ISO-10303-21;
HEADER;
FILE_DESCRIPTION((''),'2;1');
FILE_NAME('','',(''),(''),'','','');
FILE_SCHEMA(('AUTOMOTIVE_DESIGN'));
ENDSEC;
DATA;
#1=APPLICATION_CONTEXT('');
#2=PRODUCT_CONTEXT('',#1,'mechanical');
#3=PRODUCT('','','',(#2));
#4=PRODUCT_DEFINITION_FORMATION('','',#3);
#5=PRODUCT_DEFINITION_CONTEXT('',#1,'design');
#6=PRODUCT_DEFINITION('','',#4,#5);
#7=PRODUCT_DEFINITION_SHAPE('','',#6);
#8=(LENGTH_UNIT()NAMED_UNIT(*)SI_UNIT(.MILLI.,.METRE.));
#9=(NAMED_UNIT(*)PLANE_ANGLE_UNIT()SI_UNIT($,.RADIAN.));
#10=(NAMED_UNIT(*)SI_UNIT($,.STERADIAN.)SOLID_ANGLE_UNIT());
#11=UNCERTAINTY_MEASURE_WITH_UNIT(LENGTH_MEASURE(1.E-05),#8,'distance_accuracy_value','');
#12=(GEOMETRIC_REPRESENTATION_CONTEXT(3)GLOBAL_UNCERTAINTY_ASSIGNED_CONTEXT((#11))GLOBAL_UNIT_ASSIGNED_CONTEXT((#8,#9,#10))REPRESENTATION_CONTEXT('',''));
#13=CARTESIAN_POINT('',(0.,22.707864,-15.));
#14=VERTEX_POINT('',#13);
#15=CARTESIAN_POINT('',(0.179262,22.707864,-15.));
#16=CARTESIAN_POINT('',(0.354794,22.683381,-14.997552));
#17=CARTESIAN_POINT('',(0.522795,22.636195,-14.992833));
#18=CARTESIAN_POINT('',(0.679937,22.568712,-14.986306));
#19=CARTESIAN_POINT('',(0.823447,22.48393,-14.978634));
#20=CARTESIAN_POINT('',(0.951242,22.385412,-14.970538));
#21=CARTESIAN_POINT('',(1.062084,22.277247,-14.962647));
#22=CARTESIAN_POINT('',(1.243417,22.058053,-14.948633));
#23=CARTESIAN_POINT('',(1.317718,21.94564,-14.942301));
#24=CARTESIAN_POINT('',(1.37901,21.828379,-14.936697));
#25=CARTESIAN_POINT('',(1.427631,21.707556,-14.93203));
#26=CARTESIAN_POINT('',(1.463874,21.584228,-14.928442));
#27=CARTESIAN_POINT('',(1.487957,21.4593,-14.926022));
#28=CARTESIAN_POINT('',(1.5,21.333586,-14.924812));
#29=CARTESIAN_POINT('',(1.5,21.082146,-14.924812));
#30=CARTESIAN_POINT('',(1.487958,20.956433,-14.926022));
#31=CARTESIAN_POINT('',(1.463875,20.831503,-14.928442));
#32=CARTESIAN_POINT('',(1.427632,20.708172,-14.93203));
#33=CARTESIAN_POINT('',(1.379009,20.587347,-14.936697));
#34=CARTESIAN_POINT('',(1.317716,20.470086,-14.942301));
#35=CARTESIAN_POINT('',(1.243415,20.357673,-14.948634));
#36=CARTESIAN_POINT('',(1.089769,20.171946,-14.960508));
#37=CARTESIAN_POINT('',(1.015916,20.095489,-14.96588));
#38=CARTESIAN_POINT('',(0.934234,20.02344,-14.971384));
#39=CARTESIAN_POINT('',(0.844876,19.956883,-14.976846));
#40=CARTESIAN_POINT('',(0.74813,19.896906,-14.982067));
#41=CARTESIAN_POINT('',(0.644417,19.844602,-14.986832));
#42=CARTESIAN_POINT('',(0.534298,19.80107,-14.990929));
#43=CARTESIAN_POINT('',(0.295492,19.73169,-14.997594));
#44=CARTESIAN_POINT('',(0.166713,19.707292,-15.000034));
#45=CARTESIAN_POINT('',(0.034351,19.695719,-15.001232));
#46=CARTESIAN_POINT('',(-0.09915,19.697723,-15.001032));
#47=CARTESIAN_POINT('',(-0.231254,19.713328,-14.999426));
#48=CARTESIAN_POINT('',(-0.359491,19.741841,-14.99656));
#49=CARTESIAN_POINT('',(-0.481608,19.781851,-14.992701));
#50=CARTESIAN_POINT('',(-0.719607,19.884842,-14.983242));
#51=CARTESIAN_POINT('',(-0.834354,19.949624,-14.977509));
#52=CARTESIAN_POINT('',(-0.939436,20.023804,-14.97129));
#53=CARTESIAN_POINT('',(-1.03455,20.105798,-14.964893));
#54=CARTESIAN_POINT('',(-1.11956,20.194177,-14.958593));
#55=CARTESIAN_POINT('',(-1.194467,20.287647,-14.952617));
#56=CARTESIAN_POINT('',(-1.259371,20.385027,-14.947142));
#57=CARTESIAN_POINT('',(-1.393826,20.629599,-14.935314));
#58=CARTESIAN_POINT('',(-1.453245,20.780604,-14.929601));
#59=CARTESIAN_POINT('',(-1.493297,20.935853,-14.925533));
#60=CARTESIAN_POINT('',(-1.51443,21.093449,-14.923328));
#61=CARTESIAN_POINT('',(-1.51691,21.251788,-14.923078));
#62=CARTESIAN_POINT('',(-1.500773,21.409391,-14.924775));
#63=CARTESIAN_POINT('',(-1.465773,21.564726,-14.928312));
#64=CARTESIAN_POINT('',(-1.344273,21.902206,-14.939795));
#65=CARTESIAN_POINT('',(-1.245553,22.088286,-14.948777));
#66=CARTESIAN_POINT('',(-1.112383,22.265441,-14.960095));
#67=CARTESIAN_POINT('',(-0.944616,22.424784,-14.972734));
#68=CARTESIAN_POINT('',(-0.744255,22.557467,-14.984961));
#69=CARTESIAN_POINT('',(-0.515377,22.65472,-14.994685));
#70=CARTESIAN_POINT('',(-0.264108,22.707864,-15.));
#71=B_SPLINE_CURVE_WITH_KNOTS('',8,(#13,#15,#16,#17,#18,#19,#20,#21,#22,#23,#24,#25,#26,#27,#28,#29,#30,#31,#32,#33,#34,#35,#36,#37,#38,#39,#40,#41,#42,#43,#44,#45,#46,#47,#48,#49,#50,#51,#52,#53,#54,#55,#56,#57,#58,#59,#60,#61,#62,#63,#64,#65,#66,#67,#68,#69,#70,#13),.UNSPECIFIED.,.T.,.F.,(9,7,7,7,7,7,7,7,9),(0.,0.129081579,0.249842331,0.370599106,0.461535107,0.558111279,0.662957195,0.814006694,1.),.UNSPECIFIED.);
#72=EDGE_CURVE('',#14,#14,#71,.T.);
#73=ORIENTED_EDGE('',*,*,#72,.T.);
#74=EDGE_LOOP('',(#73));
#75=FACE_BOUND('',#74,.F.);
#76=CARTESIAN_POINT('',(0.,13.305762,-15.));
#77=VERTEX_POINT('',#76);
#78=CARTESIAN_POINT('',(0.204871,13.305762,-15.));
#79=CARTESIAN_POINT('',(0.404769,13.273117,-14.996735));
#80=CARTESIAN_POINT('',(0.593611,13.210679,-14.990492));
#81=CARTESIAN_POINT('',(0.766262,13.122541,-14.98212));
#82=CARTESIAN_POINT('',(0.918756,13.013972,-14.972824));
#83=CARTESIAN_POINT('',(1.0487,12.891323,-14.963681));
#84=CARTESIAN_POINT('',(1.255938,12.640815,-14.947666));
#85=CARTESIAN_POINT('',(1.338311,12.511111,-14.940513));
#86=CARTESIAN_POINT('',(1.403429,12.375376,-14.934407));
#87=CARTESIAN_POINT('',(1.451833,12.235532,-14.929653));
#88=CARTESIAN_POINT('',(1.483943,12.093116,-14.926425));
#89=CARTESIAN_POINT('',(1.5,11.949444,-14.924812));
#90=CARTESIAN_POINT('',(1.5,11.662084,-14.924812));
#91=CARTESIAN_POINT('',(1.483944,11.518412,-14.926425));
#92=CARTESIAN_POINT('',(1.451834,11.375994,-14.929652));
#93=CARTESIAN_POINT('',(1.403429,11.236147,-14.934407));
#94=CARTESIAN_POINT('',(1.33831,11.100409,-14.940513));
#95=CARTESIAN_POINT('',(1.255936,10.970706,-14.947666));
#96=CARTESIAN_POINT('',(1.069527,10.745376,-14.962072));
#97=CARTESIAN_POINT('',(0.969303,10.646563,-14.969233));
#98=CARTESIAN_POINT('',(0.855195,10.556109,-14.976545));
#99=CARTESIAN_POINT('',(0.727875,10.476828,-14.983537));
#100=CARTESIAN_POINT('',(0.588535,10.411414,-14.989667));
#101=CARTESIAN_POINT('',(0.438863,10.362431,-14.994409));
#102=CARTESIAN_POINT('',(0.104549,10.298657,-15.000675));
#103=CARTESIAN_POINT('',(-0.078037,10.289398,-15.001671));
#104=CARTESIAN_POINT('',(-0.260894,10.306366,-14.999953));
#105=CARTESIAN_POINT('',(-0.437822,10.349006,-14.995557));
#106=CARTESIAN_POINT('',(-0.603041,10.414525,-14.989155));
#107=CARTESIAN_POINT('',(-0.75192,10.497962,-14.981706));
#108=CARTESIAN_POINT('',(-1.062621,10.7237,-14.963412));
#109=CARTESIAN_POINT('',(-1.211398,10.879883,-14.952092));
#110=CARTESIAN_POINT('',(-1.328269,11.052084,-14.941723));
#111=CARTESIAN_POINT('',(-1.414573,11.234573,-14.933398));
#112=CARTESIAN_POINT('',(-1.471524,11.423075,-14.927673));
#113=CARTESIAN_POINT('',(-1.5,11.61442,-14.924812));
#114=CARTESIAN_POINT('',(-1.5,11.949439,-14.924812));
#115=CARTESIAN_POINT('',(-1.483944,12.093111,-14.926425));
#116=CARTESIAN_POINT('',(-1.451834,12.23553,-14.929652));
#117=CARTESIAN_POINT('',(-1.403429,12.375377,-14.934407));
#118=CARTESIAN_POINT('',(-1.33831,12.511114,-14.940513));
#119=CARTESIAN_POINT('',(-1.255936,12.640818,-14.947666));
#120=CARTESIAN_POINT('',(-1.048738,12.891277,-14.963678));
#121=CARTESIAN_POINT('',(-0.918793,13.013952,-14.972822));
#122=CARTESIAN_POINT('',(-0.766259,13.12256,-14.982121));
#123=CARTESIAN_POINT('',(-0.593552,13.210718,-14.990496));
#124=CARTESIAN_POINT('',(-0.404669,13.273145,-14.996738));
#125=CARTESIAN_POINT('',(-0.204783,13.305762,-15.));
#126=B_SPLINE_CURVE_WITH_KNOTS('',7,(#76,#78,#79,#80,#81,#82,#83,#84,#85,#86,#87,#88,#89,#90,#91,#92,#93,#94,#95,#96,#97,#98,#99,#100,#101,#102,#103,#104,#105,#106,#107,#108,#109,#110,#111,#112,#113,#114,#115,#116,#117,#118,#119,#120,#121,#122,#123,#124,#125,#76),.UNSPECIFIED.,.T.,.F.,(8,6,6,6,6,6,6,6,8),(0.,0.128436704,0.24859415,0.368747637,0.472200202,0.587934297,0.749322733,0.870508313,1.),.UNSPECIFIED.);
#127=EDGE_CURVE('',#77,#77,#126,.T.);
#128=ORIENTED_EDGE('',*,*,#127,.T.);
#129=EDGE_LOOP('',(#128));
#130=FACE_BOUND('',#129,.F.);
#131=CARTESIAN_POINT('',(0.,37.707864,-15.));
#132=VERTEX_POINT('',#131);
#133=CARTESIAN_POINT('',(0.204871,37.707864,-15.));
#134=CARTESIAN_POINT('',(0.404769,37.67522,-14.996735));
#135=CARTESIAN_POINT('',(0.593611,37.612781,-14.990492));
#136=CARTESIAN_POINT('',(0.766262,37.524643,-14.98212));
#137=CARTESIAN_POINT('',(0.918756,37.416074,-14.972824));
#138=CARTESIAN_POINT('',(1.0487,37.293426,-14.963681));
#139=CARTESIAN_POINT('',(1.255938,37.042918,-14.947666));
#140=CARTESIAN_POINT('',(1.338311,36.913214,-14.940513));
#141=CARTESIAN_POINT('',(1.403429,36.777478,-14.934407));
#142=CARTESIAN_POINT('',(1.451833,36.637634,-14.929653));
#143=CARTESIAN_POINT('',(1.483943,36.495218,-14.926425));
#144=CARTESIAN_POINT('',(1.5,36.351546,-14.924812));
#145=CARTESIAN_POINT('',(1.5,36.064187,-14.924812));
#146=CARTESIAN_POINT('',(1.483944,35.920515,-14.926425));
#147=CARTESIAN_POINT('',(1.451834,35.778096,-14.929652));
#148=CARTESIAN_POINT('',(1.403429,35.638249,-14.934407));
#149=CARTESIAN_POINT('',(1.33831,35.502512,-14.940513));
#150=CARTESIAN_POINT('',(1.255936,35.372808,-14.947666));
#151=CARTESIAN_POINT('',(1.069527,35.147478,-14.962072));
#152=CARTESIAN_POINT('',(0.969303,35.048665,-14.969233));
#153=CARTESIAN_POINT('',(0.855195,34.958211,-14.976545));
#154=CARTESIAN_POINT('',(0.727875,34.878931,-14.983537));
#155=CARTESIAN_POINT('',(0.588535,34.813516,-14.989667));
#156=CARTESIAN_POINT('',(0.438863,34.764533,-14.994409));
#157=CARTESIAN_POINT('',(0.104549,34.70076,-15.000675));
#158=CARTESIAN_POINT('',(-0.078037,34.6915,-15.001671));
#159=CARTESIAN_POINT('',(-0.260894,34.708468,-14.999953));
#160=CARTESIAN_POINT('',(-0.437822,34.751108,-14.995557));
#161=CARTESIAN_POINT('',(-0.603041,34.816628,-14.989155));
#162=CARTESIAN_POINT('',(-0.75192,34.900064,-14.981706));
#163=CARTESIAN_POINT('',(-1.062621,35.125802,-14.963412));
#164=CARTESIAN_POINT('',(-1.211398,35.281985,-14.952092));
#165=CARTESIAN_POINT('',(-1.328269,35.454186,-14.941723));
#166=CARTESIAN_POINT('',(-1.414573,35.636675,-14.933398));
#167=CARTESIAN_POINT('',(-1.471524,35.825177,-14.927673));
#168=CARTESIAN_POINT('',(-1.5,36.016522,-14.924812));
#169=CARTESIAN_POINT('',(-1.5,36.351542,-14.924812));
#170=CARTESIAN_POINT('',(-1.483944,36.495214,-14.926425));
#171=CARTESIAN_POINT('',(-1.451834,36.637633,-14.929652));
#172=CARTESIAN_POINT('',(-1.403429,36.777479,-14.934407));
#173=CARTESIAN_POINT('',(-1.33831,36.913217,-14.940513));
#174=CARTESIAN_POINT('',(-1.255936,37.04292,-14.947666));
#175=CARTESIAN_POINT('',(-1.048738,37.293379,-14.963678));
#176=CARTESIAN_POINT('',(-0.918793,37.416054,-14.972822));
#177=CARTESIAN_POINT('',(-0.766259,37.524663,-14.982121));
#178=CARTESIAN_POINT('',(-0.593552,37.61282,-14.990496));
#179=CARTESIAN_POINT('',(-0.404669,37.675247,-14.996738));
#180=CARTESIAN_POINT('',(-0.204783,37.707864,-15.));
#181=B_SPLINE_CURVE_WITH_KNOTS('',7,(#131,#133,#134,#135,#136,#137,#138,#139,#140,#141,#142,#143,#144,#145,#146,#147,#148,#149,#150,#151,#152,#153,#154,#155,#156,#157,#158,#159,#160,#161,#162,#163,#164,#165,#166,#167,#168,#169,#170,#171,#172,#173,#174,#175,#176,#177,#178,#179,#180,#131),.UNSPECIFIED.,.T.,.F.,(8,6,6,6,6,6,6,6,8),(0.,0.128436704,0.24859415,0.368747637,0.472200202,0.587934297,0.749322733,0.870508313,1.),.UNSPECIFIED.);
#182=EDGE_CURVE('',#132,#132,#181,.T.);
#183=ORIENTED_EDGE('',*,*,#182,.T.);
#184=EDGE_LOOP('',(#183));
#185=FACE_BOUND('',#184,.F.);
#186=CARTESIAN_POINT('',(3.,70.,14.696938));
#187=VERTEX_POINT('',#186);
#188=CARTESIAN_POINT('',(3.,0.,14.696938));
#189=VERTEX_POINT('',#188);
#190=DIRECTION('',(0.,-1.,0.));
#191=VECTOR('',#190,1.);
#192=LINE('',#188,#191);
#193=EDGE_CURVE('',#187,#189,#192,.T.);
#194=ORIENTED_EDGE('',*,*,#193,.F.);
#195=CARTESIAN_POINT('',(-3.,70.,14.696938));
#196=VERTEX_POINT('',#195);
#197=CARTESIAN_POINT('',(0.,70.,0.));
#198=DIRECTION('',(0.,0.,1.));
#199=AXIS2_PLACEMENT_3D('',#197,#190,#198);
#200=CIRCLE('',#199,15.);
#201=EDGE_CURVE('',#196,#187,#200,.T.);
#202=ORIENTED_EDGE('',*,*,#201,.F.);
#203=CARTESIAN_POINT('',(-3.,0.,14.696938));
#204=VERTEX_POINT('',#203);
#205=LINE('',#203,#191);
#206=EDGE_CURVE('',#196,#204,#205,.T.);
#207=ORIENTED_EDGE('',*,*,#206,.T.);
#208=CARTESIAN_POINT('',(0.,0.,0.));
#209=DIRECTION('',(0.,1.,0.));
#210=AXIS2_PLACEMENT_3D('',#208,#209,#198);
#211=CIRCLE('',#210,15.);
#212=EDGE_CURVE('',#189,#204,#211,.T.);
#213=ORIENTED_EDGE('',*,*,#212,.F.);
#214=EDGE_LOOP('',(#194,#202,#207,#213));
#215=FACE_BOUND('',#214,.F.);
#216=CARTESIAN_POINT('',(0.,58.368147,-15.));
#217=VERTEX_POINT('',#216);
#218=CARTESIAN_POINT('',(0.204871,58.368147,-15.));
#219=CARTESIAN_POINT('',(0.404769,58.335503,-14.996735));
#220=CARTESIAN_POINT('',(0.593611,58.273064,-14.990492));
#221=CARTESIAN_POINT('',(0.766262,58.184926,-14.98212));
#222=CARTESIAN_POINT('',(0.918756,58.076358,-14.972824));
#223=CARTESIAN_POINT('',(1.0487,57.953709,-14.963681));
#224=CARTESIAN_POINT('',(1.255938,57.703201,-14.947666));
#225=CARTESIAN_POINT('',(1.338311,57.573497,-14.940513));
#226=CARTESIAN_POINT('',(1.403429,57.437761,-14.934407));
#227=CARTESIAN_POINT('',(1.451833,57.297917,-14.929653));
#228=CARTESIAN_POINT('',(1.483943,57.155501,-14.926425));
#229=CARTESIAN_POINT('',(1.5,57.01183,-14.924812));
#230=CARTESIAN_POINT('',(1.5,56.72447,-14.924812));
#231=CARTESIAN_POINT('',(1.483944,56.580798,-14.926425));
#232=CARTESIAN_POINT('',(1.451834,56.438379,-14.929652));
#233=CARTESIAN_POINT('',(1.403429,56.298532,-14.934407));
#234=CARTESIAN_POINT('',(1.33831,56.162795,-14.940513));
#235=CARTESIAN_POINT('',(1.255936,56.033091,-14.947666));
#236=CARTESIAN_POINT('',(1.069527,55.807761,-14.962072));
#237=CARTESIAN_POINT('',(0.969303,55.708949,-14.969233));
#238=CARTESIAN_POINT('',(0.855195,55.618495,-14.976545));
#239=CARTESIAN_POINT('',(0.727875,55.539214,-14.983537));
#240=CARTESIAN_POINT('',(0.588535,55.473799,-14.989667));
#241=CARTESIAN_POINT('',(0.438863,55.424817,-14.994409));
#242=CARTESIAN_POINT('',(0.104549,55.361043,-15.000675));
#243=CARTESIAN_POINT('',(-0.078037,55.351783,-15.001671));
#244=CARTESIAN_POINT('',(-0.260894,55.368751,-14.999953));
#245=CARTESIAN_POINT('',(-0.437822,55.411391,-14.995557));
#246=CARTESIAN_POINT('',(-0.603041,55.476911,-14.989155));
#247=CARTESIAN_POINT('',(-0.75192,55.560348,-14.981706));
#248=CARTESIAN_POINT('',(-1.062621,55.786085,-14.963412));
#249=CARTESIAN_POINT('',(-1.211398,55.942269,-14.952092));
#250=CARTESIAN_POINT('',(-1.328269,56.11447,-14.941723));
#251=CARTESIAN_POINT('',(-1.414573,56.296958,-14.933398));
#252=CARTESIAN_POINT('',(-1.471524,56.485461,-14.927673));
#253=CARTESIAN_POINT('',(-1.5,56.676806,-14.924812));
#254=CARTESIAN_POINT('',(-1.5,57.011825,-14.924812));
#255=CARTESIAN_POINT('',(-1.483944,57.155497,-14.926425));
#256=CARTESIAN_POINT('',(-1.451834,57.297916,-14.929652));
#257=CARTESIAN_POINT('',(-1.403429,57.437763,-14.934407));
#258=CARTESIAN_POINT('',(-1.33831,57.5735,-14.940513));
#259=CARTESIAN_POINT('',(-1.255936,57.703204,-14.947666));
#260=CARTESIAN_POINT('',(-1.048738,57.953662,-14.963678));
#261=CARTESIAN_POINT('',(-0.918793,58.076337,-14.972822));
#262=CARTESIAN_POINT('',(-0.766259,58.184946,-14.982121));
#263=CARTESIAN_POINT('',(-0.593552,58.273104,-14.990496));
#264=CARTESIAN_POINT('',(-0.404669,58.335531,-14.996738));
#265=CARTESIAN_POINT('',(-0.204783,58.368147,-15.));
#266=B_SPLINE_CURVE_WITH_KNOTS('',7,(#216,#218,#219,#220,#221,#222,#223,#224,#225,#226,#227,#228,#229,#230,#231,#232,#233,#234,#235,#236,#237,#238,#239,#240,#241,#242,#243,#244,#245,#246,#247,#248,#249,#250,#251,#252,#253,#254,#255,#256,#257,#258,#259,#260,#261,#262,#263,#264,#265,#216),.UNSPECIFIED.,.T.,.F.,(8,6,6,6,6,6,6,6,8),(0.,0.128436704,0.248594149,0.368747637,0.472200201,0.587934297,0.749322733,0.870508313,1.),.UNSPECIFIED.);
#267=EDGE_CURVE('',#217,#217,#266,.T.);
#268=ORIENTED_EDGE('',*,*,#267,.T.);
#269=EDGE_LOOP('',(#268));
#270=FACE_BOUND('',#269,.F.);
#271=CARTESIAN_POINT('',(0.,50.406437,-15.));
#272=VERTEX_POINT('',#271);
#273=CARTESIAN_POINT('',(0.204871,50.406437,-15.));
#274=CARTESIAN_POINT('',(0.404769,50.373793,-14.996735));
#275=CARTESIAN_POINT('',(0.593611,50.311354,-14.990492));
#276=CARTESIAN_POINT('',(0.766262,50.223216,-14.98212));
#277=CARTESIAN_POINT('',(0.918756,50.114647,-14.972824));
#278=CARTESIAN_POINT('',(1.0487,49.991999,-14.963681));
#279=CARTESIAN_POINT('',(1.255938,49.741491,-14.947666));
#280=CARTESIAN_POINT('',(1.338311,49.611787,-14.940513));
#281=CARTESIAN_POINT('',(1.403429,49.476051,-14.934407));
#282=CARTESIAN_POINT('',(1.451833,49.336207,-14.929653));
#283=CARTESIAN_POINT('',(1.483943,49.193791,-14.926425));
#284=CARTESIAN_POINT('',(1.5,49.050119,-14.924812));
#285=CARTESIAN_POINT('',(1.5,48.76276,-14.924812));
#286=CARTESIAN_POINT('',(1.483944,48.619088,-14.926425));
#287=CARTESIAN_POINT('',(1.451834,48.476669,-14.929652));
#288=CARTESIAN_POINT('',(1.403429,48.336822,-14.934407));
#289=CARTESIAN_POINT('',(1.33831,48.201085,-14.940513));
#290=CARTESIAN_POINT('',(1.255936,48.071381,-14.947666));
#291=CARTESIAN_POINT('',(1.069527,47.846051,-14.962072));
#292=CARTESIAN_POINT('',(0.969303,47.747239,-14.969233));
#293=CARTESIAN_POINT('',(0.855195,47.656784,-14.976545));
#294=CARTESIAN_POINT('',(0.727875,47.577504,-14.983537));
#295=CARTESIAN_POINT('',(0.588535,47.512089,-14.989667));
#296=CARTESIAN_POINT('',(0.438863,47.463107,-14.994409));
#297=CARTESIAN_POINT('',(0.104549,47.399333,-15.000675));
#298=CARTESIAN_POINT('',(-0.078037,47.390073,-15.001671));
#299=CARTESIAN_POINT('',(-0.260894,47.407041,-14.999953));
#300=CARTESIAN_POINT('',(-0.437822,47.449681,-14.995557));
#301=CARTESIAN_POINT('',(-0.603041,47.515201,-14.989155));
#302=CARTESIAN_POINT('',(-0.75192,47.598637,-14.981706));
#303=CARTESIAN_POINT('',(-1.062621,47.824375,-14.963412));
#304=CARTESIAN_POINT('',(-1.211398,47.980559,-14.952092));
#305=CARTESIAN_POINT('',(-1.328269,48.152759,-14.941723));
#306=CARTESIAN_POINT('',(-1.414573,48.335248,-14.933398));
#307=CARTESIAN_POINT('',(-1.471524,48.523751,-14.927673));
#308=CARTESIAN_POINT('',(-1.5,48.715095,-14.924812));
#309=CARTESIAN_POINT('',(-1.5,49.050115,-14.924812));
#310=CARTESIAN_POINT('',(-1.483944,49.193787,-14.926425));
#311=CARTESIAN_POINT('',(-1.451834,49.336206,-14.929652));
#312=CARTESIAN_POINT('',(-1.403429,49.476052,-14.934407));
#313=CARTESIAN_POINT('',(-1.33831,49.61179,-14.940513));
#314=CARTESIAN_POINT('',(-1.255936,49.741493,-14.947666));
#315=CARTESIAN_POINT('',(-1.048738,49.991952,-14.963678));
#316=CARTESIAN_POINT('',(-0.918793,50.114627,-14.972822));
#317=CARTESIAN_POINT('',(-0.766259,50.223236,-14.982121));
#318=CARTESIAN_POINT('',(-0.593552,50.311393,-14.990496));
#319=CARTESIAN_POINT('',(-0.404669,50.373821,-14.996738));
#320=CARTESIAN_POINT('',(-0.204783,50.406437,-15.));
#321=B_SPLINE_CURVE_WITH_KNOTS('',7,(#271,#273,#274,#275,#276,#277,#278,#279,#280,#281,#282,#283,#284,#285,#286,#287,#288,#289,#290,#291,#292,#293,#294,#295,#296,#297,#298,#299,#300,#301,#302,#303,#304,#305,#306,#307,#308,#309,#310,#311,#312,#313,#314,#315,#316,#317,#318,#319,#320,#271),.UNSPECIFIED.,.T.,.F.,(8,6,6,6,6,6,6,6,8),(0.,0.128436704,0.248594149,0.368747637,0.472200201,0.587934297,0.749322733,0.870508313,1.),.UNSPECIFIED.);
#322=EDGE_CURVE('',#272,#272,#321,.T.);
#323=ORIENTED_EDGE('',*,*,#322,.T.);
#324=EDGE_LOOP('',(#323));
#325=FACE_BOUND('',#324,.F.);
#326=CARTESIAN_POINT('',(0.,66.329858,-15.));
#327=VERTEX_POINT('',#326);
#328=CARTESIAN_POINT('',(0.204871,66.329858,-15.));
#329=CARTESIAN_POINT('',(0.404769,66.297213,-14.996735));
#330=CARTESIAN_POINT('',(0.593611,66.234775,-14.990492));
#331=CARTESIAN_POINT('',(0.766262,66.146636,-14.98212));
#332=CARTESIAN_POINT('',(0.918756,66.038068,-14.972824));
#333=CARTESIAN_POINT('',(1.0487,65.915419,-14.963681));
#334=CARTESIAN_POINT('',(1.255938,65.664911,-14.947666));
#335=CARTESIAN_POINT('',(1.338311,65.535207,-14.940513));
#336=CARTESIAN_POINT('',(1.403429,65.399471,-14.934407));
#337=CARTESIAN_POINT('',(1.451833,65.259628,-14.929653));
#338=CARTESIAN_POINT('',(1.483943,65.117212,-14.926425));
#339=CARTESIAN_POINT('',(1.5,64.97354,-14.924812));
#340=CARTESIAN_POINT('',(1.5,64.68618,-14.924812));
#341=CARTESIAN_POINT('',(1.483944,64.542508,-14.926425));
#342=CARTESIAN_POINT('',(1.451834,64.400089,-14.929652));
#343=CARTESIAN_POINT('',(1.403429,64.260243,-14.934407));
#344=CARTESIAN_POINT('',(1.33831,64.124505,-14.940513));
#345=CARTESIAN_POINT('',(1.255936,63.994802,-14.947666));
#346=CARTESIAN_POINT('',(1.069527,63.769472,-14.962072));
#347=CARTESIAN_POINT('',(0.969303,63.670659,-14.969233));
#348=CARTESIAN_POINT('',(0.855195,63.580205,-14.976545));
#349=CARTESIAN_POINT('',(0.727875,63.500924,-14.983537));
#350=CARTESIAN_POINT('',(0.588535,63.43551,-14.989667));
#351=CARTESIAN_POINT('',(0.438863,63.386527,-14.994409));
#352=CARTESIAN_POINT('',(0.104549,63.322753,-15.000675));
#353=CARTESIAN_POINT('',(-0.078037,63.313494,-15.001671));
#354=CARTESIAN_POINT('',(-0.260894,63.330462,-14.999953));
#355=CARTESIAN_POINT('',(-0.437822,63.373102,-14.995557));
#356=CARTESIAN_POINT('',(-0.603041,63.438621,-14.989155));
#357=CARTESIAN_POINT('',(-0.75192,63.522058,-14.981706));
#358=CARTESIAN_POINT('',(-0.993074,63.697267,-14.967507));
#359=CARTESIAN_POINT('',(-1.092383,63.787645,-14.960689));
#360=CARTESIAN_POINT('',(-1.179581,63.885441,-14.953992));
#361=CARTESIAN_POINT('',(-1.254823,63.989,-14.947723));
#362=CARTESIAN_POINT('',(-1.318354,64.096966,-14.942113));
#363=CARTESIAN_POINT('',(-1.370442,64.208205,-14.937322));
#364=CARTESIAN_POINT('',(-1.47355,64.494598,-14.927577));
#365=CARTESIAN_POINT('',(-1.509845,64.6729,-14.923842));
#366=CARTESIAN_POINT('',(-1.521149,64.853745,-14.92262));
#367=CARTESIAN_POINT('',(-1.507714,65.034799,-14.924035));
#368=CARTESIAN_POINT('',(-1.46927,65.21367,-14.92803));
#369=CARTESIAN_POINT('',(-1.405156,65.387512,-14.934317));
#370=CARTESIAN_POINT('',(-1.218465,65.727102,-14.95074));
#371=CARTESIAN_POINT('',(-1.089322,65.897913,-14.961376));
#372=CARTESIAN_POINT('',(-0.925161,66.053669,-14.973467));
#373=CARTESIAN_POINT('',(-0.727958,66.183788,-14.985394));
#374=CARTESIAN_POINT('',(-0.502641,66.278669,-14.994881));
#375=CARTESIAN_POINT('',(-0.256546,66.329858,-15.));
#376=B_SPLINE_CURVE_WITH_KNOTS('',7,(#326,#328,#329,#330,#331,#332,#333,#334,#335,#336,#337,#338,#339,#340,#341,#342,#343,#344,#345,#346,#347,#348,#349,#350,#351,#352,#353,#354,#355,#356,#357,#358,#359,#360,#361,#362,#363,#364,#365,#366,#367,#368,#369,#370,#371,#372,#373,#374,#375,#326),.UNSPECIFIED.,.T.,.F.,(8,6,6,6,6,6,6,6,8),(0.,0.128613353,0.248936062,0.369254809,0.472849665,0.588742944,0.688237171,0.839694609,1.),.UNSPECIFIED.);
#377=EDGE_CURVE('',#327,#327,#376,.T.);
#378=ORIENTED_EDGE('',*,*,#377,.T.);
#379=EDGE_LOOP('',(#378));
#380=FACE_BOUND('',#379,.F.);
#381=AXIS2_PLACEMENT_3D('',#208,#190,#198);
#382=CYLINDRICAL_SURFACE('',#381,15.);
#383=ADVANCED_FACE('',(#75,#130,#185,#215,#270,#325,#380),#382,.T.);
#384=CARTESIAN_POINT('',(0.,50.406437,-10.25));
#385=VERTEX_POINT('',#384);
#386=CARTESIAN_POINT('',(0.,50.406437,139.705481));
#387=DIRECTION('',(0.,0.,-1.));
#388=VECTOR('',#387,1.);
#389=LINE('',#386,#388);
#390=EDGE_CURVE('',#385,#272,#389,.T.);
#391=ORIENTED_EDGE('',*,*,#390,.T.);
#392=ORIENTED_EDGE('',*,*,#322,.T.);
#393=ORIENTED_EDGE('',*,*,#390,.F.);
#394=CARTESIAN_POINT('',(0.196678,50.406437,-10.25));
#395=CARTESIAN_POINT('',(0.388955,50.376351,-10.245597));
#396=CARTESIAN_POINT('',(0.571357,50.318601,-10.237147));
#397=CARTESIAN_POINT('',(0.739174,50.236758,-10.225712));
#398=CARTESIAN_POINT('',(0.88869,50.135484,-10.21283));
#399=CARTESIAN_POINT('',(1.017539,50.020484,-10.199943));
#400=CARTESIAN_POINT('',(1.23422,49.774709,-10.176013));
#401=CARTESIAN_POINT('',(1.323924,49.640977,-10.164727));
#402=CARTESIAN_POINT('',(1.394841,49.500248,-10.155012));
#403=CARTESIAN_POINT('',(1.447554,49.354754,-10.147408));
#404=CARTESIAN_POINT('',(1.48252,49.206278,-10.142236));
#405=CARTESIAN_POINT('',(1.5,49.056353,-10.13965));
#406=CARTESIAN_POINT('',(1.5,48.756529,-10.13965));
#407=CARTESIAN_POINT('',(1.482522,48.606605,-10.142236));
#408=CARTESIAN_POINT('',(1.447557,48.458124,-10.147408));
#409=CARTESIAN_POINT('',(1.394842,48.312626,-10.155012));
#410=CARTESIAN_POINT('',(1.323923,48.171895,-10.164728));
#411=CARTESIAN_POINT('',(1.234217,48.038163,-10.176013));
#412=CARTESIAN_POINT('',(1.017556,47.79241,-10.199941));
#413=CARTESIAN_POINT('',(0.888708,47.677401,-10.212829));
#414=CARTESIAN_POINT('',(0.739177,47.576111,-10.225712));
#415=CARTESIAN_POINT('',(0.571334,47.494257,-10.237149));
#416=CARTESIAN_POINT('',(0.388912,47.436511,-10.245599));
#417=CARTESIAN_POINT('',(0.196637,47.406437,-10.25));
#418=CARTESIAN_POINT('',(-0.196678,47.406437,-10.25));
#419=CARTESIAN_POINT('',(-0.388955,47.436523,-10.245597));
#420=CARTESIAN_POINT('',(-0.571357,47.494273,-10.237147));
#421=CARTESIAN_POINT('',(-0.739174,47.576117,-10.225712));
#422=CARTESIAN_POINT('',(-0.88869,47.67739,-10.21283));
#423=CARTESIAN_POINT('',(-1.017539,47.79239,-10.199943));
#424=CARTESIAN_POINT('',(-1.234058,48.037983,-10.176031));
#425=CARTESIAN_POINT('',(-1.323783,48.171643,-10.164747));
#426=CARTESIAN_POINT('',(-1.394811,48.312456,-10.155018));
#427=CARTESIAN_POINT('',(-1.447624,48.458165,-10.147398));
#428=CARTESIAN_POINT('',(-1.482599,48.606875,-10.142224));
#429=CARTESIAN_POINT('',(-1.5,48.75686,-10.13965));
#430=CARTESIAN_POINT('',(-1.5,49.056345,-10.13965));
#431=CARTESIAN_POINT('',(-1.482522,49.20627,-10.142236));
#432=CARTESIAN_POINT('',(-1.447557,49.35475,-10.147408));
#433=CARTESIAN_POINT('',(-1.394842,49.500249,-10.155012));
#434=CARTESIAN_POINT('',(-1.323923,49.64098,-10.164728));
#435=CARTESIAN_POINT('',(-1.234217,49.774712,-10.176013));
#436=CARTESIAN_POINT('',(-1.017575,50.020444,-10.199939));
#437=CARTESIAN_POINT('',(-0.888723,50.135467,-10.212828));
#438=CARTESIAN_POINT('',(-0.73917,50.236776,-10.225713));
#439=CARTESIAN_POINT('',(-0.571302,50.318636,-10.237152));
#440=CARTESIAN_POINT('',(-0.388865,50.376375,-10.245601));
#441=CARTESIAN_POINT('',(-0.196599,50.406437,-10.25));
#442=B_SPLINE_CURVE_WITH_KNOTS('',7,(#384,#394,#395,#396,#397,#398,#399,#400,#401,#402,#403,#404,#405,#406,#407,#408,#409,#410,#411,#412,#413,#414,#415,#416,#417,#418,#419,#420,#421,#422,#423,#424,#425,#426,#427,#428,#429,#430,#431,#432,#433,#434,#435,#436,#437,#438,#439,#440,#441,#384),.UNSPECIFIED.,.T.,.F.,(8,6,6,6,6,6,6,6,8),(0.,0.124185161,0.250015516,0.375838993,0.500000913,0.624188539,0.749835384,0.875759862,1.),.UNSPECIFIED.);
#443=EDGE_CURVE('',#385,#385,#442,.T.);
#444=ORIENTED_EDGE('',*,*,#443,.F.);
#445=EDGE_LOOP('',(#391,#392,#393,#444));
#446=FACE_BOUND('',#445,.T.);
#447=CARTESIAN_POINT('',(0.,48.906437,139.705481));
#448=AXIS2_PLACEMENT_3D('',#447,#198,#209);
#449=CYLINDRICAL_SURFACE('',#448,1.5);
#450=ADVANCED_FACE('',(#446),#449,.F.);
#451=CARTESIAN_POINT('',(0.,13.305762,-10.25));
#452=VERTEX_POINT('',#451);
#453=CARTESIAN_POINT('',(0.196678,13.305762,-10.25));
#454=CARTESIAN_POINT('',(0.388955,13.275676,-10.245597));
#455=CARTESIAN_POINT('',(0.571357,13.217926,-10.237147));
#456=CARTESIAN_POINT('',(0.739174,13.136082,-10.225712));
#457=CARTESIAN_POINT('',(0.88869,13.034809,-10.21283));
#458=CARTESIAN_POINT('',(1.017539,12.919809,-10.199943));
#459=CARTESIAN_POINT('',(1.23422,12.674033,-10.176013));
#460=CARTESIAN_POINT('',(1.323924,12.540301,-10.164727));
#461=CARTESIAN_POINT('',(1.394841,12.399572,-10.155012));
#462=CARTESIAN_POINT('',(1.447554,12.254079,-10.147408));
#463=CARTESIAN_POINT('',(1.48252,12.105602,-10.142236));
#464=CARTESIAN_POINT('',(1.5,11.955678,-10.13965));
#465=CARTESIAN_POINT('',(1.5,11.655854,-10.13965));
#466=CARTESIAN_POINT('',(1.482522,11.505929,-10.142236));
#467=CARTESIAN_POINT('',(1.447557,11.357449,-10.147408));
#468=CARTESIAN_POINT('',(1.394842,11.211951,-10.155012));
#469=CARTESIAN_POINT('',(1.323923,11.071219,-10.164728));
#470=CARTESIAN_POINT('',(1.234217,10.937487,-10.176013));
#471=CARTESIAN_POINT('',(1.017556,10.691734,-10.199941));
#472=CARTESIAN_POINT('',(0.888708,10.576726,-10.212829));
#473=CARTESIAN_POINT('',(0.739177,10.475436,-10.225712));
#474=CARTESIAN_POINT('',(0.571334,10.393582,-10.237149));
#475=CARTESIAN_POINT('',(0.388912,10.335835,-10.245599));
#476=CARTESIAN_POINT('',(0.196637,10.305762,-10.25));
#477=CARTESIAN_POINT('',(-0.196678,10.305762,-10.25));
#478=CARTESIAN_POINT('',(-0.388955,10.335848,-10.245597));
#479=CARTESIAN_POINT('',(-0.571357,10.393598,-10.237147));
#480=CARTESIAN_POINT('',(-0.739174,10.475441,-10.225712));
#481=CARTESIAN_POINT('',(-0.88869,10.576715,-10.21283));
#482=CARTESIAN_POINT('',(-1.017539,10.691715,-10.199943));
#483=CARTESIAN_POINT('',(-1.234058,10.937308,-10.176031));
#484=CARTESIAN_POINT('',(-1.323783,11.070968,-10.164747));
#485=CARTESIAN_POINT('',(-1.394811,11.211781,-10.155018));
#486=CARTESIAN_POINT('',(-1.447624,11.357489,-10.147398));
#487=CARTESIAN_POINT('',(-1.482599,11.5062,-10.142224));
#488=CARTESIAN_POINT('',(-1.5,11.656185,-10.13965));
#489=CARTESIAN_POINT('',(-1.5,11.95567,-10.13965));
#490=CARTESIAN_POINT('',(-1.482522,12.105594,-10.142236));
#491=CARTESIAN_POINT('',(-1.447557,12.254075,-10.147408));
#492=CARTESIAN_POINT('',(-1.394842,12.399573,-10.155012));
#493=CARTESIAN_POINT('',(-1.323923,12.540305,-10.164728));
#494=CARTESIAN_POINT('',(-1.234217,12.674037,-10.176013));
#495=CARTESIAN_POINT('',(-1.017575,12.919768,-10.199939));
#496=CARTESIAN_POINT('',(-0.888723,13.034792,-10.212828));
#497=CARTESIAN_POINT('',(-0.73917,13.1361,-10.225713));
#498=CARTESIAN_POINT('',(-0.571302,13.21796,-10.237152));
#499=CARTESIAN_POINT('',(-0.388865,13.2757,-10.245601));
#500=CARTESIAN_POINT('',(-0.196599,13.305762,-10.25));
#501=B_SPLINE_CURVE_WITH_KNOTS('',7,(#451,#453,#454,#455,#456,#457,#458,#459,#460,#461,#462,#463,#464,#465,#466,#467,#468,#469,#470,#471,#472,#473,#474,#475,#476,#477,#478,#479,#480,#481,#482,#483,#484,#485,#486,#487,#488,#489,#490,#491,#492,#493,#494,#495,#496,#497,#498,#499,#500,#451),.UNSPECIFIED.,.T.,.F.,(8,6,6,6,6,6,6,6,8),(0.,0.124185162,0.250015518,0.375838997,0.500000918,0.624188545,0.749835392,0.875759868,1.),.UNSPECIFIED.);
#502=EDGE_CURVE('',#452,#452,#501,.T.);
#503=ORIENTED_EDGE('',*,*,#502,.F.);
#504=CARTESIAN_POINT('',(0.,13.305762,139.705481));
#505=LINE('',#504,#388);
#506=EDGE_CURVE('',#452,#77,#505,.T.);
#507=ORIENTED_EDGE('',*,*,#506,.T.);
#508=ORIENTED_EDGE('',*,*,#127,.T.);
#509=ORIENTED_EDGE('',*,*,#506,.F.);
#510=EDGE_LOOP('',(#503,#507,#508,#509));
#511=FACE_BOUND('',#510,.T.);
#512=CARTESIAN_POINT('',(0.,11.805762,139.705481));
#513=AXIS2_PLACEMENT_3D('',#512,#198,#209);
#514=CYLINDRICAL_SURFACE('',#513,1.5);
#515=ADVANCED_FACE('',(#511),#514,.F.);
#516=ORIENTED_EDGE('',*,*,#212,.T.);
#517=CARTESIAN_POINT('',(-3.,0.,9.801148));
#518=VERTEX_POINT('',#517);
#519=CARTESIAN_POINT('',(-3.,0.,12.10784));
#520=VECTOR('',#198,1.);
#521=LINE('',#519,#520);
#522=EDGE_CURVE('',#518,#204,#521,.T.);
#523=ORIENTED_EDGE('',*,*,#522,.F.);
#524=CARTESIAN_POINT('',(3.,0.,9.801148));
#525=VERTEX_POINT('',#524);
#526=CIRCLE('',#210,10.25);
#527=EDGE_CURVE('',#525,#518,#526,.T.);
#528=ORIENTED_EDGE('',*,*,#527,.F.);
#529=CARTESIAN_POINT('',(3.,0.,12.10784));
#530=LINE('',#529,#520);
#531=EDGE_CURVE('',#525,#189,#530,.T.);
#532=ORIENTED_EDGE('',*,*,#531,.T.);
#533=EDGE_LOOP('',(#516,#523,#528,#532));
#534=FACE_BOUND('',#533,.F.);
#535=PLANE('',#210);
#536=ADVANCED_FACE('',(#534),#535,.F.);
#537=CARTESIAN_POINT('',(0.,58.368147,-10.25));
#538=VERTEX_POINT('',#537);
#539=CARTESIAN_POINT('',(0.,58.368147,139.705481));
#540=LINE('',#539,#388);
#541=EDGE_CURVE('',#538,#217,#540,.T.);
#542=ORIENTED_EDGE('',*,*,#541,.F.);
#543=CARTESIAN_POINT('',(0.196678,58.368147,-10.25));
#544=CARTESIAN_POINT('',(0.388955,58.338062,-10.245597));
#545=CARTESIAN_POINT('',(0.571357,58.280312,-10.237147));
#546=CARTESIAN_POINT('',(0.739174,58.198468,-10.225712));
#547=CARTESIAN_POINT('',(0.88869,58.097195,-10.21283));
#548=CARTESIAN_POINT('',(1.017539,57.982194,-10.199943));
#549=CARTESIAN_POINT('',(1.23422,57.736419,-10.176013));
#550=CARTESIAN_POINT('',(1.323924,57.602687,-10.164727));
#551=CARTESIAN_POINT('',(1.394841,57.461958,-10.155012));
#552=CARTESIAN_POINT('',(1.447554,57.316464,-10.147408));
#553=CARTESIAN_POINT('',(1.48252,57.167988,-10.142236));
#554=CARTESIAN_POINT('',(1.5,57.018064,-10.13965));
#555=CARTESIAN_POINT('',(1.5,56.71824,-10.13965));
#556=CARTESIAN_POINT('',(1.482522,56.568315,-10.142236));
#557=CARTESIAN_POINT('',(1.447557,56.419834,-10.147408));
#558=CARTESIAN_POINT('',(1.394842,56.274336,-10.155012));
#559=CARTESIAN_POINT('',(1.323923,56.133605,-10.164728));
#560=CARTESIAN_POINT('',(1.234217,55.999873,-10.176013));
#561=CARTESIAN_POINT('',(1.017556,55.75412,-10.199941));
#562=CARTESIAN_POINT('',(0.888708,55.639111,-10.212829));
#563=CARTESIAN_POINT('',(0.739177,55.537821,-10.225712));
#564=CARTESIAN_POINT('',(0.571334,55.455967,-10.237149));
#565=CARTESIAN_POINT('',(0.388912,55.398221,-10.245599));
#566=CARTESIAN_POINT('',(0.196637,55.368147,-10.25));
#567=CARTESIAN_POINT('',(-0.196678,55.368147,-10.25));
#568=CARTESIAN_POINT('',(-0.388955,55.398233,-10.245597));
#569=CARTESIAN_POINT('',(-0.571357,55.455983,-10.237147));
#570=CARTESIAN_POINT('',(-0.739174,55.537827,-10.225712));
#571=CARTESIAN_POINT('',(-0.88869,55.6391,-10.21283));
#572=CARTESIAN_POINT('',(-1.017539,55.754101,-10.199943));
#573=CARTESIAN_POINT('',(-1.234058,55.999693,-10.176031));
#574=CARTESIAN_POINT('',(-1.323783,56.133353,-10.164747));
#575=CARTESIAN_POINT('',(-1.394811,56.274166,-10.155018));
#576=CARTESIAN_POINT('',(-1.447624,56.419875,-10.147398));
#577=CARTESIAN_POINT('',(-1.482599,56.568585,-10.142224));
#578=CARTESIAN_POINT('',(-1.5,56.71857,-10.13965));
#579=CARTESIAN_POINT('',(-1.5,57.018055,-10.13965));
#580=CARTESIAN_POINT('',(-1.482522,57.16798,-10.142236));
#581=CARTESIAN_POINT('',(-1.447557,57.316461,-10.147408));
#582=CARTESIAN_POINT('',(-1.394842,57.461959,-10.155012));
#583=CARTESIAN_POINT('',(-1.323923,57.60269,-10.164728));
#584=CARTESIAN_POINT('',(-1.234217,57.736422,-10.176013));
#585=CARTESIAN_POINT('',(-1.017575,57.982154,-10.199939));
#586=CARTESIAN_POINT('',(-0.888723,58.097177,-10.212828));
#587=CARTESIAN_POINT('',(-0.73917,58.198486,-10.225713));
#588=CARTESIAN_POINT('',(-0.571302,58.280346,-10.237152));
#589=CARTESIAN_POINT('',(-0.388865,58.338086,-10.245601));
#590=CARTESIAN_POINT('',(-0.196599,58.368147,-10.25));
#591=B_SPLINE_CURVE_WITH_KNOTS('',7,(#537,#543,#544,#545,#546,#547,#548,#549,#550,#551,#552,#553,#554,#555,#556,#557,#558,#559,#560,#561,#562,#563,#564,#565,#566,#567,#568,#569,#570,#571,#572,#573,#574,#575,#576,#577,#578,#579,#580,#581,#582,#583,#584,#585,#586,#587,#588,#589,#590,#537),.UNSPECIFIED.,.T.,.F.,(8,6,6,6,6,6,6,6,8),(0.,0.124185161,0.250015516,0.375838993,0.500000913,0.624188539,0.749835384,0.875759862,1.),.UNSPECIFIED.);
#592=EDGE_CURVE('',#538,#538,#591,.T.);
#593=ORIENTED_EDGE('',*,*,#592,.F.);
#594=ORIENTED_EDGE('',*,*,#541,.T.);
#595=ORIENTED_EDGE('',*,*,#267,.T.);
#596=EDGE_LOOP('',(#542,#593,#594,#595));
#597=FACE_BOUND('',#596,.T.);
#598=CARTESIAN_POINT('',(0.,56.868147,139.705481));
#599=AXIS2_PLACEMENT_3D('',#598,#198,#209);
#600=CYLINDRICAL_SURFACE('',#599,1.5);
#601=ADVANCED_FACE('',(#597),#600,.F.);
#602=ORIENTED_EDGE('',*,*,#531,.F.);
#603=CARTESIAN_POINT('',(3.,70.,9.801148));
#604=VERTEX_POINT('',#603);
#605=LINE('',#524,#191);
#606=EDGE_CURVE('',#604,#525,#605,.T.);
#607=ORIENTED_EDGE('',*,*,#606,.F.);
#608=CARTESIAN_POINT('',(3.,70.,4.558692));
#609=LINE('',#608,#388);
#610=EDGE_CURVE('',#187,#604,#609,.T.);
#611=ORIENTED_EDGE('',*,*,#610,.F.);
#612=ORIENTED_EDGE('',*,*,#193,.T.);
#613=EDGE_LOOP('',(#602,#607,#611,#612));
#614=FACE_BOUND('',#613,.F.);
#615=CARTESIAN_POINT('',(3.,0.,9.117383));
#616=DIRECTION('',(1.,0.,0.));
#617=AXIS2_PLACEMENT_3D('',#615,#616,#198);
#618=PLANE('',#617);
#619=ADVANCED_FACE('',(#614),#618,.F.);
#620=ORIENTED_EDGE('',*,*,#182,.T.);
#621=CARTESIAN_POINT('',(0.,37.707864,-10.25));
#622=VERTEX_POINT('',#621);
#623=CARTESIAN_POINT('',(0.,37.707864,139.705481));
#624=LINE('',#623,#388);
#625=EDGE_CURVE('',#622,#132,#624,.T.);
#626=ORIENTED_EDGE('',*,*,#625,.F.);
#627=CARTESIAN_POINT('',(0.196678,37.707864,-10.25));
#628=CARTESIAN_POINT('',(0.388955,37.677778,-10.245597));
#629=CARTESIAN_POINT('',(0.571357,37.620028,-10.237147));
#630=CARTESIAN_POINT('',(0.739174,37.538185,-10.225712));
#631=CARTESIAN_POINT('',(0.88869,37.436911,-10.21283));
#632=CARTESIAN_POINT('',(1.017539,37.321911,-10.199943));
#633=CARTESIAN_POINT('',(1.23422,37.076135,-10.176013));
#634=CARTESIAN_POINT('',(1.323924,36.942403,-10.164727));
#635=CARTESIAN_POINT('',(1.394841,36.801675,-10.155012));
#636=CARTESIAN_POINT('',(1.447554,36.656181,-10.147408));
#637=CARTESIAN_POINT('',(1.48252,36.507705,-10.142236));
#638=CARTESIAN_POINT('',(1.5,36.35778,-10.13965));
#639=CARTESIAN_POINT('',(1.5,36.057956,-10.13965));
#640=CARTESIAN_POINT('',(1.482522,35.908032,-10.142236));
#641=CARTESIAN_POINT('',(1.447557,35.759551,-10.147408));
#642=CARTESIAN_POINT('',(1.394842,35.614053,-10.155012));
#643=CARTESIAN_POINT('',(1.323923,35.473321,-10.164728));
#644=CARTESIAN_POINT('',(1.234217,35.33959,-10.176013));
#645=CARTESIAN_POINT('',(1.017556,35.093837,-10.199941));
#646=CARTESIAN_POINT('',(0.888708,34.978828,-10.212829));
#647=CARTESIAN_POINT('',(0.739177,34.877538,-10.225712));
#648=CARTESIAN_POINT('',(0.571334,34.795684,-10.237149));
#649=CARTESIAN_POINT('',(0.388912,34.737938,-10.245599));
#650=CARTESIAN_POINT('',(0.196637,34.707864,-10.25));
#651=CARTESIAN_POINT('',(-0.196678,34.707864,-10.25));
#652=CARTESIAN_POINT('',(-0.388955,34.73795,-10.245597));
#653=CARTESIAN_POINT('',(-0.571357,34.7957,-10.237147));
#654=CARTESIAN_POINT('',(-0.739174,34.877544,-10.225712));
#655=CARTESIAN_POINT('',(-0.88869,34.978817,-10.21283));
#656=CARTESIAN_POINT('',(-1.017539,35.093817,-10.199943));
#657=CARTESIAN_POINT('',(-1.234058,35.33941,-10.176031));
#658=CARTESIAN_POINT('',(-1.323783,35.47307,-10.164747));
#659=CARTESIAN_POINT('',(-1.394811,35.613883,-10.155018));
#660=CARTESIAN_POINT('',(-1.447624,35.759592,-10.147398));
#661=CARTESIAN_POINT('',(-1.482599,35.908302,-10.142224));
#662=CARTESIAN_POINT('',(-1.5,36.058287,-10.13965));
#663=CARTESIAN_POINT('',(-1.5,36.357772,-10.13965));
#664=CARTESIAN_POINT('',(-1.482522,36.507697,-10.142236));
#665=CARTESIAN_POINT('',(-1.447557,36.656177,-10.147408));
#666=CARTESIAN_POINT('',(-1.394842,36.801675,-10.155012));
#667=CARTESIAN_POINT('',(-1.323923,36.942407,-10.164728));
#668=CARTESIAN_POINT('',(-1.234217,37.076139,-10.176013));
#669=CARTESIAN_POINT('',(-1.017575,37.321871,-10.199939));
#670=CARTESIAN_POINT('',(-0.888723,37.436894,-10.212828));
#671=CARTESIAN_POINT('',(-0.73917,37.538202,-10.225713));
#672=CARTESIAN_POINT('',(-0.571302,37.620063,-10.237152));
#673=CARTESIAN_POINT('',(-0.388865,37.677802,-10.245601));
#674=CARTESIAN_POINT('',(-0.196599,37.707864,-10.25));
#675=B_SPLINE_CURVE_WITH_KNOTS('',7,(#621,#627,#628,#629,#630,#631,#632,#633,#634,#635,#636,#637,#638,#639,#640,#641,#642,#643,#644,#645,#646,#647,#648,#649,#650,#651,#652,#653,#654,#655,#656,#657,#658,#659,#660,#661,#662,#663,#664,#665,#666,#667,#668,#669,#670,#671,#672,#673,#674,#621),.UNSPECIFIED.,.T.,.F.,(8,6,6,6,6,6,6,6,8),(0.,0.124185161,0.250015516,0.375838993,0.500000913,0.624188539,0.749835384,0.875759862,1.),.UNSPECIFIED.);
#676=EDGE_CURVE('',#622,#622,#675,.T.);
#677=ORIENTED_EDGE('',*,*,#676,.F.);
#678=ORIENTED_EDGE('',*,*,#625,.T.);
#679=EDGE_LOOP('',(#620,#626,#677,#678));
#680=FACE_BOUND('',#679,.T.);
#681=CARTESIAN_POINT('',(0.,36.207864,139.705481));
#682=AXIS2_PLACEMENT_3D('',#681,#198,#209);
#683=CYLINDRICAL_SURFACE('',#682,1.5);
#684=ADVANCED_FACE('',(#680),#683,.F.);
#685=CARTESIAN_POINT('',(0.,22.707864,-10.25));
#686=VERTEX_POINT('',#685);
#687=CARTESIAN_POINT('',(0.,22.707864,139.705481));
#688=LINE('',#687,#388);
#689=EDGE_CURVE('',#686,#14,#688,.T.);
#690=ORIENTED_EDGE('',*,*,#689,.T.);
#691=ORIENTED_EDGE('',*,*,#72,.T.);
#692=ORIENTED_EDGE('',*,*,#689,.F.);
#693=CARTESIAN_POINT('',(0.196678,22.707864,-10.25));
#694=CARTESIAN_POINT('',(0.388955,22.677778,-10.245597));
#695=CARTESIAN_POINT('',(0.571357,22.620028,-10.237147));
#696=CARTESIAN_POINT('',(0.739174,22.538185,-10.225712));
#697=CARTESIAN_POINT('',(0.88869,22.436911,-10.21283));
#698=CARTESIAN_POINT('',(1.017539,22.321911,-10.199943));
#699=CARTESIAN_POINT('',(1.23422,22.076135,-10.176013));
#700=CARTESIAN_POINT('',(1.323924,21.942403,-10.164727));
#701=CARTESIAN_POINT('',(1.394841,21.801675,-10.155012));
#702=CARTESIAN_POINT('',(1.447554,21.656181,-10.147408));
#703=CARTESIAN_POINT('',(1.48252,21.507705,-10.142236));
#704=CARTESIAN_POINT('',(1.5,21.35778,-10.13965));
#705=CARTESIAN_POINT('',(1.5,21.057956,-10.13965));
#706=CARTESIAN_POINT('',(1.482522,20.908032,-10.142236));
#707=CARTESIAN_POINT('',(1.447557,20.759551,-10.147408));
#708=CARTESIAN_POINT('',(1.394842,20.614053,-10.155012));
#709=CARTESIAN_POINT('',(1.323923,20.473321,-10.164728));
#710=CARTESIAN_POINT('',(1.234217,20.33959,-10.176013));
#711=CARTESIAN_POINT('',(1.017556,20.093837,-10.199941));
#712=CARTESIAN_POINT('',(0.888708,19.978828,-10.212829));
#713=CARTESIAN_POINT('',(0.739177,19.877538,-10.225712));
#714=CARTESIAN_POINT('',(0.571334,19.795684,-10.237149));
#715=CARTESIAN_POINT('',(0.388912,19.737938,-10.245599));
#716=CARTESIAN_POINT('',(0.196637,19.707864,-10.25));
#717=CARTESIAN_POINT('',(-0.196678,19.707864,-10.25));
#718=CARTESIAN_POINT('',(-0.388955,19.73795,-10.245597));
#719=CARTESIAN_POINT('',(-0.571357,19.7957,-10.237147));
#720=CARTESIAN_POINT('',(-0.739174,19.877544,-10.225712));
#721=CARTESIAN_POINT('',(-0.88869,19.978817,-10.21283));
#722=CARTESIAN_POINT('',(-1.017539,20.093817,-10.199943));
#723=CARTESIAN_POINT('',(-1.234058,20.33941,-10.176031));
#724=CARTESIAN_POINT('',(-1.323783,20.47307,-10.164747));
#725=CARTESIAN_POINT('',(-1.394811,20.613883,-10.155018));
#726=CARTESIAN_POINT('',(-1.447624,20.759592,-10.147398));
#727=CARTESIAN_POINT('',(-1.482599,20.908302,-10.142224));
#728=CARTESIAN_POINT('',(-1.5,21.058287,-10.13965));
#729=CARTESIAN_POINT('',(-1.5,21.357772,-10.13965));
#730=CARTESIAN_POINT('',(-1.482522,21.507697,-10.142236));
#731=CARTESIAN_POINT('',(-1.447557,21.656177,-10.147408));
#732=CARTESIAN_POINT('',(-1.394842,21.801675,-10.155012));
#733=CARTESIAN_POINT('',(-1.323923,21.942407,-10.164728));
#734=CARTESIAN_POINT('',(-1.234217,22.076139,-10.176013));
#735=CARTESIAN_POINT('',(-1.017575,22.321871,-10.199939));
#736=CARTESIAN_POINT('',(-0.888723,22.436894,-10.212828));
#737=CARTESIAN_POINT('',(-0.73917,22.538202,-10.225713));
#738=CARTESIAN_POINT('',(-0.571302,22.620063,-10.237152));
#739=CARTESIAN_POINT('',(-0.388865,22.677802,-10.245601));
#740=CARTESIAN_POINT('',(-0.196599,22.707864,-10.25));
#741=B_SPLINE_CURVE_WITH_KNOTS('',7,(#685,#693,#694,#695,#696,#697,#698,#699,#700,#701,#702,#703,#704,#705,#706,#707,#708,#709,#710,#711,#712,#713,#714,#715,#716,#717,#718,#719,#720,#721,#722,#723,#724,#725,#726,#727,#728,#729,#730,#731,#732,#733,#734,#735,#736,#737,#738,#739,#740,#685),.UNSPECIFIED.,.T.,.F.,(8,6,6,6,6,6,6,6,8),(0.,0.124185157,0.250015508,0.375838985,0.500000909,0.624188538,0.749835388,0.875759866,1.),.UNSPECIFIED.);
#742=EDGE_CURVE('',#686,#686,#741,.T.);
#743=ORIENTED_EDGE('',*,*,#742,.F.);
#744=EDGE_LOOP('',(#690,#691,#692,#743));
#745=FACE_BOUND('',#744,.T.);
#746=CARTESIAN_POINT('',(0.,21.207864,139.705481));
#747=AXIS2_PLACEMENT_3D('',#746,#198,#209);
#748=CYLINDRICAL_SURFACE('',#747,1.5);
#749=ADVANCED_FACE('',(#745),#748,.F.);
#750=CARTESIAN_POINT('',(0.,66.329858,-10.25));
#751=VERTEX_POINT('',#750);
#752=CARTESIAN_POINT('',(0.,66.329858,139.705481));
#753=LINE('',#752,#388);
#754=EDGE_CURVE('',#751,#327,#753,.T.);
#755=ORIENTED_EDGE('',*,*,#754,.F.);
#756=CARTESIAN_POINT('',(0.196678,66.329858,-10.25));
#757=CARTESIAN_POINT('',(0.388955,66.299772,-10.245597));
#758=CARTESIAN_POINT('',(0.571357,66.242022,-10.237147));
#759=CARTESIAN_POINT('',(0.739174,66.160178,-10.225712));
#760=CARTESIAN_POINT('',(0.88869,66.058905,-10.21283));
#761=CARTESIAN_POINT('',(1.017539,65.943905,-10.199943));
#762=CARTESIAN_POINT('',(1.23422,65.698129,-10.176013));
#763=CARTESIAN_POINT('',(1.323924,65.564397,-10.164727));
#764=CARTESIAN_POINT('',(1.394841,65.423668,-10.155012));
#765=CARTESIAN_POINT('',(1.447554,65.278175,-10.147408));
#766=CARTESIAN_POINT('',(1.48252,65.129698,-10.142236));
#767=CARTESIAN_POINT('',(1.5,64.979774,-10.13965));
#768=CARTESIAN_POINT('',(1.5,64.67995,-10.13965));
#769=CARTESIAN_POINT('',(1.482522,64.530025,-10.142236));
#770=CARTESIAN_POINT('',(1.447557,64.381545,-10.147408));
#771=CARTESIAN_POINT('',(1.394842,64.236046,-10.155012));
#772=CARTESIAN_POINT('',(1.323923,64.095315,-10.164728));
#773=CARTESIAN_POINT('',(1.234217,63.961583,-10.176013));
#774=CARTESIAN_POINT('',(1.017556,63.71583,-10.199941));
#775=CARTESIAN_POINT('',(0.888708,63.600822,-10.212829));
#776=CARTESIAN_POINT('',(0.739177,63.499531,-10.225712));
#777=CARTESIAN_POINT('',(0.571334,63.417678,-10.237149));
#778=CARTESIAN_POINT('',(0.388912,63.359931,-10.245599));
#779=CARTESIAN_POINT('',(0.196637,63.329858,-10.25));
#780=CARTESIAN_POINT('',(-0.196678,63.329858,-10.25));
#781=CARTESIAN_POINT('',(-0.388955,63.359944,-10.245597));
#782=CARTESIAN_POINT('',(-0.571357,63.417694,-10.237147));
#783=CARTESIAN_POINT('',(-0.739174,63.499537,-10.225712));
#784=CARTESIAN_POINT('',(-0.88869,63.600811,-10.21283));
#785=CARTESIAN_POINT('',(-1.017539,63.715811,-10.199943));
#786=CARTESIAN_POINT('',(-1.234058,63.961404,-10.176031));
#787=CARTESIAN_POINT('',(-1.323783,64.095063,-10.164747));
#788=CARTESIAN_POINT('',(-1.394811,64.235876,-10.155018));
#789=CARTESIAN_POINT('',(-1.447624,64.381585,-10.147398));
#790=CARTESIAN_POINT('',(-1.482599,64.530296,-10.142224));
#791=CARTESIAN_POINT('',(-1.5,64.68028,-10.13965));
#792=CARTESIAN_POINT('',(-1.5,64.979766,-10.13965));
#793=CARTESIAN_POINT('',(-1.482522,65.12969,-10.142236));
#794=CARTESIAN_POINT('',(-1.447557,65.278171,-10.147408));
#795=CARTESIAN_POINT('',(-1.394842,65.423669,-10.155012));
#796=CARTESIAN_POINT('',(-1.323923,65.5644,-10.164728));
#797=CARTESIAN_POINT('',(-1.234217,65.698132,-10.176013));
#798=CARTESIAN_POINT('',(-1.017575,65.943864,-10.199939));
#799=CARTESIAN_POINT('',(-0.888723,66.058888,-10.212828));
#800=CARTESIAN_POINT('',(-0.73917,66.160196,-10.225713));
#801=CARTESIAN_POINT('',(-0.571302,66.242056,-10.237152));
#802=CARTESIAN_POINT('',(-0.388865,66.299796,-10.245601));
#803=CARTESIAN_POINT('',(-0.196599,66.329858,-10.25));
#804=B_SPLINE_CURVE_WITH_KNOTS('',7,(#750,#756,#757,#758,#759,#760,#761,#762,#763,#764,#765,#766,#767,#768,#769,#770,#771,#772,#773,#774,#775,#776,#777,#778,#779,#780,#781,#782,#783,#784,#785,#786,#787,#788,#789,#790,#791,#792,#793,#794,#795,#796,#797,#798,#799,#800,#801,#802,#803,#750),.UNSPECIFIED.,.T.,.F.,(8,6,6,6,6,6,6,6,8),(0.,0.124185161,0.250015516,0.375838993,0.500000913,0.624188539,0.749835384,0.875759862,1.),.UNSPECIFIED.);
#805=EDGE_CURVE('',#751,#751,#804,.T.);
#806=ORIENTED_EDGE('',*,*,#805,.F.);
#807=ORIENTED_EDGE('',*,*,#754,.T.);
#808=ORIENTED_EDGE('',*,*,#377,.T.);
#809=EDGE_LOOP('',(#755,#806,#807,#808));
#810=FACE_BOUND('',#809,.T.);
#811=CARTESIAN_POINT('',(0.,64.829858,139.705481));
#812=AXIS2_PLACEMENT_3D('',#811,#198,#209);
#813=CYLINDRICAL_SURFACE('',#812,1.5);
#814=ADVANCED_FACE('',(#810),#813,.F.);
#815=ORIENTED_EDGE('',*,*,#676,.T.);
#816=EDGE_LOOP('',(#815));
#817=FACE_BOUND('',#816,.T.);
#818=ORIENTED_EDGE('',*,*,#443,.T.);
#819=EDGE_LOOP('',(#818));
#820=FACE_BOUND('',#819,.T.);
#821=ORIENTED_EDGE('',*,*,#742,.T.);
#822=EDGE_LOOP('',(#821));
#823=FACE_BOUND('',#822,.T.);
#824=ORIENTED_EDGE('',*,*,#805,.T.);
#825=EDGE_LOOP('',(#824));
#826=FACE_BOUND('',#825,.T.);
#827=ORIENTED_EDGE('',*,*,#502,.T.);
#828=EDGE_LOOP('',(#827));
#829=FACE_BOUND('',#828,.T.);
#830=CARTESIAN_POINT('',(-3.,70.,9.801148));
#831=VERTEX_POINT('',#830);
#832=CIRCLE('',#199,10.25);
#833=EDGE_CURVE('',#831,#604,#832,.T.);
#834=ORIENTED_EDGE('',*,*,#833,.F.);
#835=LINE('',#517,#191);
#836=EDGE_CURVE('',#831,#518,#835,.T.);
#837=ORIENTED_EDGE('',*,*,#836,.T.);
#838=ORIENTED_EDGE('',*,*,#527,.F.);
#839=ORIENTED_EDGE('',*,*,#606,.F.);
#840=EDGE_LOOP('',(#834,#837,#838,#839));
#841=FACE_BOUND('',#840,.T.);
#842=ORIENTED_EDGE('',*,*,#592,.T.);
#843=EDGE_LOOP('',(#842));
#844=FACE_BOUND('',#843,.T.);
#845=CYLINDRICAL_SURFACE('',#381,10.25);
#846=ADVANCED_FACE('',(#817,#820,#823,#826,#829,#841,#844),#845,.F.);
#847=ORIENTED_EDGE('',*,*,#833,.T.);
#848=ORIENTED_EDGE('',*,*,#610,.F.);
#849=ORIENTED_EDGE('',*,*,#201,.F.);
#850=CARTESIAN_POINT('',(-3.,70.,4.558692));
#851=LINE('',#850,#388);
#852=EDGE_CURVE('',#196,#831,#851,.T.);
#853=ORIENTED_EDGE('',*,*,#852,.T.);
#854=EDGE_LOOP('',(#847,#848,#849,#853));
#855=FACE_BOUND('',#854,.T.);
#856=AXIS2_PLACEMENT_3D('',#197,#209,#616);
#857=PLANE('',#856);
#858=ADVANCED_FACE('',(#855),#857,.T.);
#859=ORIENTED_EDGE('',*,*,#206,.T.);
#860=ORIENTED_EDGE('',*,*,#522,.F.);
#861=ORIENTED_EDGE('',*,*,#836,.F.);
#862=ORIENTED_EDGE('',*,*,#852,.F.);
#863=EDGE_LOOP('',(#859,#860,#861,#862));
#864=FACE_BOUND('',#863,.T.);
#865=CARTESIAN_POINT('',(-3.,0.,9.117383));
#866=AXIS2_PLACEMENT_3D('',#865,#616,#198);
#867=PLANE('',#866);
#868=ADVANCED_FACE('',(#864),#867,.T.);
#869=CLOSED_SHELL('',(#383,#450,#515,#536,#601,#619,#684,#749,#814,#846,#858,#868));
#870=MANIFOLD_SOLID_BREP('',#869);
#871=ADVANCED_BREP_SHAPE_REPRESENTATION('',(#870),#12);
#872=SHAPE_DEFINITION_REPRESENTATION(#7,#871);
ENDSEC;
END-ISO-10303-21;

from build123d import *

# Parameters (mm, degrees)
SKETCH_1_R               = 15
SKETCH_1_R_2             = 10.25
EXTRUDE_1_DEPTH          = 150
CUT_EXTRUDE_1_DEPTH      = 154.703965854
CUT_EXTRUDE_1_DEPTH_BACK = 154.703965854
SKETCH_2_R               = 1.5
SKETCH_3_R               = 22.14266171
CUT_EXTRUDE_2_DEPTH      = 80
SKETCH_5_W               = 6
SKETCH_5_H               = 5.980913868
CUT_EXTRUDE_3_DEPTH      = 80


with BuildPart() as part:
    # 스케치1 → 보스-돌출1 (new body)
    with BuildSketch(Plane(origin=(0, 0, 0), x_dir=(1, 0, 0), z_dir=(0, 1, 0))):
        with Locations(Location((0, 0, 0), (0, 0, 270))):
            Circle(SKETCH_1_R)
        with Locations(Location((0, 0, 0), (0, 0, 270))):
            Circle(SKETCH_1_R_2, mode=Mode.SUBTRACT)
    extrude(amount=EXTRUDE_1_DEPTH)

    # 스케치2 → 컷-돌출1 (cut, two sides: drawn at the far end of the back side and taken through both)
    with BuildSketch(Plane(origin=(0, 0, -14.998485281), x_dir=(-1, 0, 0), z_dir=(0, 0, -1)).offset(-CUT_EXTRUDE_1_DEPTH_BACK)):
        with Locations(Location((0, 11.805761924, 0), (0, 0, 90))):
            Circle(SKETCH_2_R)
        with Locations(Location((0, 21.207864132, 0), (0, 0, 90))):
            Circle(SKETCH_2_R)
        with Locations(Location((0, 36.207864132, 0), (0, 0, 90))):
            Circle(SKETCH_2_R)
        with Locations(Location((0, 48.906437248, 0), (0, 0, 90))):
            Circle(SKETCH_2_R)
        with Locations(Location((0, 56.868147497, 0), (0, 0, 90))):
            Circle(SKETCH_2_R)
        with Locations(Location((0, 64.829857746, 0), (0, 0, 90))):
            Circle(SKETCH_2_R)
        with Locations(Location((0, 77.054405077, 0), (0, 0, 90))):
            Circle(SKETCH_2_R)
        with Locations(Location((0, 91.899672592, 0), (0, 0, 90))):
            Circle(SKETCH_2_R)
        with Locations(Location((0, 106.761531723, 0), (0, 0, 90))):
            Circle(SKETCH_2_R)
        with Locations(Location((0, 122.331098432, 0), (0, 0, 90))):
            Circle(SKETCH_2_R)
        with Locations(Location((0, 136.839103775, 0), (0, 0, 90))):
            Circle(SKETCH_2_R)
    extrude(amount=CUT_EXTRUDE_1_DEPTH + CUT_EXTRUDE_1_DEPTH_BACK, mode=Mode.SUBTRACT)

    # 스케치3 → 컷-돌출2 (cut)
    with BuildSketch(Plane(origin=(0, 150, 0), x_dir=(1, 0, 0), z_dir=(0, 1, 0))):
        Circle(SKETCH_3_R)
    extrude(amount=-CUT_EXTRUDE_2_DEPTH, mode=Mode.SUBTRACT)

    # 스케치5 → 컷-돌출3 (cut)
    with BuildSketch(Plane.XZ):
        with Locations((0, 12.107840203)):
            Rectangle(SKETCH_5_W, SKETCH_5_H)
    extrude(amount=-CUT_EXTRUDE_3_DEPTH, mode=Mode.SUBTRACT)


solid = part.part
